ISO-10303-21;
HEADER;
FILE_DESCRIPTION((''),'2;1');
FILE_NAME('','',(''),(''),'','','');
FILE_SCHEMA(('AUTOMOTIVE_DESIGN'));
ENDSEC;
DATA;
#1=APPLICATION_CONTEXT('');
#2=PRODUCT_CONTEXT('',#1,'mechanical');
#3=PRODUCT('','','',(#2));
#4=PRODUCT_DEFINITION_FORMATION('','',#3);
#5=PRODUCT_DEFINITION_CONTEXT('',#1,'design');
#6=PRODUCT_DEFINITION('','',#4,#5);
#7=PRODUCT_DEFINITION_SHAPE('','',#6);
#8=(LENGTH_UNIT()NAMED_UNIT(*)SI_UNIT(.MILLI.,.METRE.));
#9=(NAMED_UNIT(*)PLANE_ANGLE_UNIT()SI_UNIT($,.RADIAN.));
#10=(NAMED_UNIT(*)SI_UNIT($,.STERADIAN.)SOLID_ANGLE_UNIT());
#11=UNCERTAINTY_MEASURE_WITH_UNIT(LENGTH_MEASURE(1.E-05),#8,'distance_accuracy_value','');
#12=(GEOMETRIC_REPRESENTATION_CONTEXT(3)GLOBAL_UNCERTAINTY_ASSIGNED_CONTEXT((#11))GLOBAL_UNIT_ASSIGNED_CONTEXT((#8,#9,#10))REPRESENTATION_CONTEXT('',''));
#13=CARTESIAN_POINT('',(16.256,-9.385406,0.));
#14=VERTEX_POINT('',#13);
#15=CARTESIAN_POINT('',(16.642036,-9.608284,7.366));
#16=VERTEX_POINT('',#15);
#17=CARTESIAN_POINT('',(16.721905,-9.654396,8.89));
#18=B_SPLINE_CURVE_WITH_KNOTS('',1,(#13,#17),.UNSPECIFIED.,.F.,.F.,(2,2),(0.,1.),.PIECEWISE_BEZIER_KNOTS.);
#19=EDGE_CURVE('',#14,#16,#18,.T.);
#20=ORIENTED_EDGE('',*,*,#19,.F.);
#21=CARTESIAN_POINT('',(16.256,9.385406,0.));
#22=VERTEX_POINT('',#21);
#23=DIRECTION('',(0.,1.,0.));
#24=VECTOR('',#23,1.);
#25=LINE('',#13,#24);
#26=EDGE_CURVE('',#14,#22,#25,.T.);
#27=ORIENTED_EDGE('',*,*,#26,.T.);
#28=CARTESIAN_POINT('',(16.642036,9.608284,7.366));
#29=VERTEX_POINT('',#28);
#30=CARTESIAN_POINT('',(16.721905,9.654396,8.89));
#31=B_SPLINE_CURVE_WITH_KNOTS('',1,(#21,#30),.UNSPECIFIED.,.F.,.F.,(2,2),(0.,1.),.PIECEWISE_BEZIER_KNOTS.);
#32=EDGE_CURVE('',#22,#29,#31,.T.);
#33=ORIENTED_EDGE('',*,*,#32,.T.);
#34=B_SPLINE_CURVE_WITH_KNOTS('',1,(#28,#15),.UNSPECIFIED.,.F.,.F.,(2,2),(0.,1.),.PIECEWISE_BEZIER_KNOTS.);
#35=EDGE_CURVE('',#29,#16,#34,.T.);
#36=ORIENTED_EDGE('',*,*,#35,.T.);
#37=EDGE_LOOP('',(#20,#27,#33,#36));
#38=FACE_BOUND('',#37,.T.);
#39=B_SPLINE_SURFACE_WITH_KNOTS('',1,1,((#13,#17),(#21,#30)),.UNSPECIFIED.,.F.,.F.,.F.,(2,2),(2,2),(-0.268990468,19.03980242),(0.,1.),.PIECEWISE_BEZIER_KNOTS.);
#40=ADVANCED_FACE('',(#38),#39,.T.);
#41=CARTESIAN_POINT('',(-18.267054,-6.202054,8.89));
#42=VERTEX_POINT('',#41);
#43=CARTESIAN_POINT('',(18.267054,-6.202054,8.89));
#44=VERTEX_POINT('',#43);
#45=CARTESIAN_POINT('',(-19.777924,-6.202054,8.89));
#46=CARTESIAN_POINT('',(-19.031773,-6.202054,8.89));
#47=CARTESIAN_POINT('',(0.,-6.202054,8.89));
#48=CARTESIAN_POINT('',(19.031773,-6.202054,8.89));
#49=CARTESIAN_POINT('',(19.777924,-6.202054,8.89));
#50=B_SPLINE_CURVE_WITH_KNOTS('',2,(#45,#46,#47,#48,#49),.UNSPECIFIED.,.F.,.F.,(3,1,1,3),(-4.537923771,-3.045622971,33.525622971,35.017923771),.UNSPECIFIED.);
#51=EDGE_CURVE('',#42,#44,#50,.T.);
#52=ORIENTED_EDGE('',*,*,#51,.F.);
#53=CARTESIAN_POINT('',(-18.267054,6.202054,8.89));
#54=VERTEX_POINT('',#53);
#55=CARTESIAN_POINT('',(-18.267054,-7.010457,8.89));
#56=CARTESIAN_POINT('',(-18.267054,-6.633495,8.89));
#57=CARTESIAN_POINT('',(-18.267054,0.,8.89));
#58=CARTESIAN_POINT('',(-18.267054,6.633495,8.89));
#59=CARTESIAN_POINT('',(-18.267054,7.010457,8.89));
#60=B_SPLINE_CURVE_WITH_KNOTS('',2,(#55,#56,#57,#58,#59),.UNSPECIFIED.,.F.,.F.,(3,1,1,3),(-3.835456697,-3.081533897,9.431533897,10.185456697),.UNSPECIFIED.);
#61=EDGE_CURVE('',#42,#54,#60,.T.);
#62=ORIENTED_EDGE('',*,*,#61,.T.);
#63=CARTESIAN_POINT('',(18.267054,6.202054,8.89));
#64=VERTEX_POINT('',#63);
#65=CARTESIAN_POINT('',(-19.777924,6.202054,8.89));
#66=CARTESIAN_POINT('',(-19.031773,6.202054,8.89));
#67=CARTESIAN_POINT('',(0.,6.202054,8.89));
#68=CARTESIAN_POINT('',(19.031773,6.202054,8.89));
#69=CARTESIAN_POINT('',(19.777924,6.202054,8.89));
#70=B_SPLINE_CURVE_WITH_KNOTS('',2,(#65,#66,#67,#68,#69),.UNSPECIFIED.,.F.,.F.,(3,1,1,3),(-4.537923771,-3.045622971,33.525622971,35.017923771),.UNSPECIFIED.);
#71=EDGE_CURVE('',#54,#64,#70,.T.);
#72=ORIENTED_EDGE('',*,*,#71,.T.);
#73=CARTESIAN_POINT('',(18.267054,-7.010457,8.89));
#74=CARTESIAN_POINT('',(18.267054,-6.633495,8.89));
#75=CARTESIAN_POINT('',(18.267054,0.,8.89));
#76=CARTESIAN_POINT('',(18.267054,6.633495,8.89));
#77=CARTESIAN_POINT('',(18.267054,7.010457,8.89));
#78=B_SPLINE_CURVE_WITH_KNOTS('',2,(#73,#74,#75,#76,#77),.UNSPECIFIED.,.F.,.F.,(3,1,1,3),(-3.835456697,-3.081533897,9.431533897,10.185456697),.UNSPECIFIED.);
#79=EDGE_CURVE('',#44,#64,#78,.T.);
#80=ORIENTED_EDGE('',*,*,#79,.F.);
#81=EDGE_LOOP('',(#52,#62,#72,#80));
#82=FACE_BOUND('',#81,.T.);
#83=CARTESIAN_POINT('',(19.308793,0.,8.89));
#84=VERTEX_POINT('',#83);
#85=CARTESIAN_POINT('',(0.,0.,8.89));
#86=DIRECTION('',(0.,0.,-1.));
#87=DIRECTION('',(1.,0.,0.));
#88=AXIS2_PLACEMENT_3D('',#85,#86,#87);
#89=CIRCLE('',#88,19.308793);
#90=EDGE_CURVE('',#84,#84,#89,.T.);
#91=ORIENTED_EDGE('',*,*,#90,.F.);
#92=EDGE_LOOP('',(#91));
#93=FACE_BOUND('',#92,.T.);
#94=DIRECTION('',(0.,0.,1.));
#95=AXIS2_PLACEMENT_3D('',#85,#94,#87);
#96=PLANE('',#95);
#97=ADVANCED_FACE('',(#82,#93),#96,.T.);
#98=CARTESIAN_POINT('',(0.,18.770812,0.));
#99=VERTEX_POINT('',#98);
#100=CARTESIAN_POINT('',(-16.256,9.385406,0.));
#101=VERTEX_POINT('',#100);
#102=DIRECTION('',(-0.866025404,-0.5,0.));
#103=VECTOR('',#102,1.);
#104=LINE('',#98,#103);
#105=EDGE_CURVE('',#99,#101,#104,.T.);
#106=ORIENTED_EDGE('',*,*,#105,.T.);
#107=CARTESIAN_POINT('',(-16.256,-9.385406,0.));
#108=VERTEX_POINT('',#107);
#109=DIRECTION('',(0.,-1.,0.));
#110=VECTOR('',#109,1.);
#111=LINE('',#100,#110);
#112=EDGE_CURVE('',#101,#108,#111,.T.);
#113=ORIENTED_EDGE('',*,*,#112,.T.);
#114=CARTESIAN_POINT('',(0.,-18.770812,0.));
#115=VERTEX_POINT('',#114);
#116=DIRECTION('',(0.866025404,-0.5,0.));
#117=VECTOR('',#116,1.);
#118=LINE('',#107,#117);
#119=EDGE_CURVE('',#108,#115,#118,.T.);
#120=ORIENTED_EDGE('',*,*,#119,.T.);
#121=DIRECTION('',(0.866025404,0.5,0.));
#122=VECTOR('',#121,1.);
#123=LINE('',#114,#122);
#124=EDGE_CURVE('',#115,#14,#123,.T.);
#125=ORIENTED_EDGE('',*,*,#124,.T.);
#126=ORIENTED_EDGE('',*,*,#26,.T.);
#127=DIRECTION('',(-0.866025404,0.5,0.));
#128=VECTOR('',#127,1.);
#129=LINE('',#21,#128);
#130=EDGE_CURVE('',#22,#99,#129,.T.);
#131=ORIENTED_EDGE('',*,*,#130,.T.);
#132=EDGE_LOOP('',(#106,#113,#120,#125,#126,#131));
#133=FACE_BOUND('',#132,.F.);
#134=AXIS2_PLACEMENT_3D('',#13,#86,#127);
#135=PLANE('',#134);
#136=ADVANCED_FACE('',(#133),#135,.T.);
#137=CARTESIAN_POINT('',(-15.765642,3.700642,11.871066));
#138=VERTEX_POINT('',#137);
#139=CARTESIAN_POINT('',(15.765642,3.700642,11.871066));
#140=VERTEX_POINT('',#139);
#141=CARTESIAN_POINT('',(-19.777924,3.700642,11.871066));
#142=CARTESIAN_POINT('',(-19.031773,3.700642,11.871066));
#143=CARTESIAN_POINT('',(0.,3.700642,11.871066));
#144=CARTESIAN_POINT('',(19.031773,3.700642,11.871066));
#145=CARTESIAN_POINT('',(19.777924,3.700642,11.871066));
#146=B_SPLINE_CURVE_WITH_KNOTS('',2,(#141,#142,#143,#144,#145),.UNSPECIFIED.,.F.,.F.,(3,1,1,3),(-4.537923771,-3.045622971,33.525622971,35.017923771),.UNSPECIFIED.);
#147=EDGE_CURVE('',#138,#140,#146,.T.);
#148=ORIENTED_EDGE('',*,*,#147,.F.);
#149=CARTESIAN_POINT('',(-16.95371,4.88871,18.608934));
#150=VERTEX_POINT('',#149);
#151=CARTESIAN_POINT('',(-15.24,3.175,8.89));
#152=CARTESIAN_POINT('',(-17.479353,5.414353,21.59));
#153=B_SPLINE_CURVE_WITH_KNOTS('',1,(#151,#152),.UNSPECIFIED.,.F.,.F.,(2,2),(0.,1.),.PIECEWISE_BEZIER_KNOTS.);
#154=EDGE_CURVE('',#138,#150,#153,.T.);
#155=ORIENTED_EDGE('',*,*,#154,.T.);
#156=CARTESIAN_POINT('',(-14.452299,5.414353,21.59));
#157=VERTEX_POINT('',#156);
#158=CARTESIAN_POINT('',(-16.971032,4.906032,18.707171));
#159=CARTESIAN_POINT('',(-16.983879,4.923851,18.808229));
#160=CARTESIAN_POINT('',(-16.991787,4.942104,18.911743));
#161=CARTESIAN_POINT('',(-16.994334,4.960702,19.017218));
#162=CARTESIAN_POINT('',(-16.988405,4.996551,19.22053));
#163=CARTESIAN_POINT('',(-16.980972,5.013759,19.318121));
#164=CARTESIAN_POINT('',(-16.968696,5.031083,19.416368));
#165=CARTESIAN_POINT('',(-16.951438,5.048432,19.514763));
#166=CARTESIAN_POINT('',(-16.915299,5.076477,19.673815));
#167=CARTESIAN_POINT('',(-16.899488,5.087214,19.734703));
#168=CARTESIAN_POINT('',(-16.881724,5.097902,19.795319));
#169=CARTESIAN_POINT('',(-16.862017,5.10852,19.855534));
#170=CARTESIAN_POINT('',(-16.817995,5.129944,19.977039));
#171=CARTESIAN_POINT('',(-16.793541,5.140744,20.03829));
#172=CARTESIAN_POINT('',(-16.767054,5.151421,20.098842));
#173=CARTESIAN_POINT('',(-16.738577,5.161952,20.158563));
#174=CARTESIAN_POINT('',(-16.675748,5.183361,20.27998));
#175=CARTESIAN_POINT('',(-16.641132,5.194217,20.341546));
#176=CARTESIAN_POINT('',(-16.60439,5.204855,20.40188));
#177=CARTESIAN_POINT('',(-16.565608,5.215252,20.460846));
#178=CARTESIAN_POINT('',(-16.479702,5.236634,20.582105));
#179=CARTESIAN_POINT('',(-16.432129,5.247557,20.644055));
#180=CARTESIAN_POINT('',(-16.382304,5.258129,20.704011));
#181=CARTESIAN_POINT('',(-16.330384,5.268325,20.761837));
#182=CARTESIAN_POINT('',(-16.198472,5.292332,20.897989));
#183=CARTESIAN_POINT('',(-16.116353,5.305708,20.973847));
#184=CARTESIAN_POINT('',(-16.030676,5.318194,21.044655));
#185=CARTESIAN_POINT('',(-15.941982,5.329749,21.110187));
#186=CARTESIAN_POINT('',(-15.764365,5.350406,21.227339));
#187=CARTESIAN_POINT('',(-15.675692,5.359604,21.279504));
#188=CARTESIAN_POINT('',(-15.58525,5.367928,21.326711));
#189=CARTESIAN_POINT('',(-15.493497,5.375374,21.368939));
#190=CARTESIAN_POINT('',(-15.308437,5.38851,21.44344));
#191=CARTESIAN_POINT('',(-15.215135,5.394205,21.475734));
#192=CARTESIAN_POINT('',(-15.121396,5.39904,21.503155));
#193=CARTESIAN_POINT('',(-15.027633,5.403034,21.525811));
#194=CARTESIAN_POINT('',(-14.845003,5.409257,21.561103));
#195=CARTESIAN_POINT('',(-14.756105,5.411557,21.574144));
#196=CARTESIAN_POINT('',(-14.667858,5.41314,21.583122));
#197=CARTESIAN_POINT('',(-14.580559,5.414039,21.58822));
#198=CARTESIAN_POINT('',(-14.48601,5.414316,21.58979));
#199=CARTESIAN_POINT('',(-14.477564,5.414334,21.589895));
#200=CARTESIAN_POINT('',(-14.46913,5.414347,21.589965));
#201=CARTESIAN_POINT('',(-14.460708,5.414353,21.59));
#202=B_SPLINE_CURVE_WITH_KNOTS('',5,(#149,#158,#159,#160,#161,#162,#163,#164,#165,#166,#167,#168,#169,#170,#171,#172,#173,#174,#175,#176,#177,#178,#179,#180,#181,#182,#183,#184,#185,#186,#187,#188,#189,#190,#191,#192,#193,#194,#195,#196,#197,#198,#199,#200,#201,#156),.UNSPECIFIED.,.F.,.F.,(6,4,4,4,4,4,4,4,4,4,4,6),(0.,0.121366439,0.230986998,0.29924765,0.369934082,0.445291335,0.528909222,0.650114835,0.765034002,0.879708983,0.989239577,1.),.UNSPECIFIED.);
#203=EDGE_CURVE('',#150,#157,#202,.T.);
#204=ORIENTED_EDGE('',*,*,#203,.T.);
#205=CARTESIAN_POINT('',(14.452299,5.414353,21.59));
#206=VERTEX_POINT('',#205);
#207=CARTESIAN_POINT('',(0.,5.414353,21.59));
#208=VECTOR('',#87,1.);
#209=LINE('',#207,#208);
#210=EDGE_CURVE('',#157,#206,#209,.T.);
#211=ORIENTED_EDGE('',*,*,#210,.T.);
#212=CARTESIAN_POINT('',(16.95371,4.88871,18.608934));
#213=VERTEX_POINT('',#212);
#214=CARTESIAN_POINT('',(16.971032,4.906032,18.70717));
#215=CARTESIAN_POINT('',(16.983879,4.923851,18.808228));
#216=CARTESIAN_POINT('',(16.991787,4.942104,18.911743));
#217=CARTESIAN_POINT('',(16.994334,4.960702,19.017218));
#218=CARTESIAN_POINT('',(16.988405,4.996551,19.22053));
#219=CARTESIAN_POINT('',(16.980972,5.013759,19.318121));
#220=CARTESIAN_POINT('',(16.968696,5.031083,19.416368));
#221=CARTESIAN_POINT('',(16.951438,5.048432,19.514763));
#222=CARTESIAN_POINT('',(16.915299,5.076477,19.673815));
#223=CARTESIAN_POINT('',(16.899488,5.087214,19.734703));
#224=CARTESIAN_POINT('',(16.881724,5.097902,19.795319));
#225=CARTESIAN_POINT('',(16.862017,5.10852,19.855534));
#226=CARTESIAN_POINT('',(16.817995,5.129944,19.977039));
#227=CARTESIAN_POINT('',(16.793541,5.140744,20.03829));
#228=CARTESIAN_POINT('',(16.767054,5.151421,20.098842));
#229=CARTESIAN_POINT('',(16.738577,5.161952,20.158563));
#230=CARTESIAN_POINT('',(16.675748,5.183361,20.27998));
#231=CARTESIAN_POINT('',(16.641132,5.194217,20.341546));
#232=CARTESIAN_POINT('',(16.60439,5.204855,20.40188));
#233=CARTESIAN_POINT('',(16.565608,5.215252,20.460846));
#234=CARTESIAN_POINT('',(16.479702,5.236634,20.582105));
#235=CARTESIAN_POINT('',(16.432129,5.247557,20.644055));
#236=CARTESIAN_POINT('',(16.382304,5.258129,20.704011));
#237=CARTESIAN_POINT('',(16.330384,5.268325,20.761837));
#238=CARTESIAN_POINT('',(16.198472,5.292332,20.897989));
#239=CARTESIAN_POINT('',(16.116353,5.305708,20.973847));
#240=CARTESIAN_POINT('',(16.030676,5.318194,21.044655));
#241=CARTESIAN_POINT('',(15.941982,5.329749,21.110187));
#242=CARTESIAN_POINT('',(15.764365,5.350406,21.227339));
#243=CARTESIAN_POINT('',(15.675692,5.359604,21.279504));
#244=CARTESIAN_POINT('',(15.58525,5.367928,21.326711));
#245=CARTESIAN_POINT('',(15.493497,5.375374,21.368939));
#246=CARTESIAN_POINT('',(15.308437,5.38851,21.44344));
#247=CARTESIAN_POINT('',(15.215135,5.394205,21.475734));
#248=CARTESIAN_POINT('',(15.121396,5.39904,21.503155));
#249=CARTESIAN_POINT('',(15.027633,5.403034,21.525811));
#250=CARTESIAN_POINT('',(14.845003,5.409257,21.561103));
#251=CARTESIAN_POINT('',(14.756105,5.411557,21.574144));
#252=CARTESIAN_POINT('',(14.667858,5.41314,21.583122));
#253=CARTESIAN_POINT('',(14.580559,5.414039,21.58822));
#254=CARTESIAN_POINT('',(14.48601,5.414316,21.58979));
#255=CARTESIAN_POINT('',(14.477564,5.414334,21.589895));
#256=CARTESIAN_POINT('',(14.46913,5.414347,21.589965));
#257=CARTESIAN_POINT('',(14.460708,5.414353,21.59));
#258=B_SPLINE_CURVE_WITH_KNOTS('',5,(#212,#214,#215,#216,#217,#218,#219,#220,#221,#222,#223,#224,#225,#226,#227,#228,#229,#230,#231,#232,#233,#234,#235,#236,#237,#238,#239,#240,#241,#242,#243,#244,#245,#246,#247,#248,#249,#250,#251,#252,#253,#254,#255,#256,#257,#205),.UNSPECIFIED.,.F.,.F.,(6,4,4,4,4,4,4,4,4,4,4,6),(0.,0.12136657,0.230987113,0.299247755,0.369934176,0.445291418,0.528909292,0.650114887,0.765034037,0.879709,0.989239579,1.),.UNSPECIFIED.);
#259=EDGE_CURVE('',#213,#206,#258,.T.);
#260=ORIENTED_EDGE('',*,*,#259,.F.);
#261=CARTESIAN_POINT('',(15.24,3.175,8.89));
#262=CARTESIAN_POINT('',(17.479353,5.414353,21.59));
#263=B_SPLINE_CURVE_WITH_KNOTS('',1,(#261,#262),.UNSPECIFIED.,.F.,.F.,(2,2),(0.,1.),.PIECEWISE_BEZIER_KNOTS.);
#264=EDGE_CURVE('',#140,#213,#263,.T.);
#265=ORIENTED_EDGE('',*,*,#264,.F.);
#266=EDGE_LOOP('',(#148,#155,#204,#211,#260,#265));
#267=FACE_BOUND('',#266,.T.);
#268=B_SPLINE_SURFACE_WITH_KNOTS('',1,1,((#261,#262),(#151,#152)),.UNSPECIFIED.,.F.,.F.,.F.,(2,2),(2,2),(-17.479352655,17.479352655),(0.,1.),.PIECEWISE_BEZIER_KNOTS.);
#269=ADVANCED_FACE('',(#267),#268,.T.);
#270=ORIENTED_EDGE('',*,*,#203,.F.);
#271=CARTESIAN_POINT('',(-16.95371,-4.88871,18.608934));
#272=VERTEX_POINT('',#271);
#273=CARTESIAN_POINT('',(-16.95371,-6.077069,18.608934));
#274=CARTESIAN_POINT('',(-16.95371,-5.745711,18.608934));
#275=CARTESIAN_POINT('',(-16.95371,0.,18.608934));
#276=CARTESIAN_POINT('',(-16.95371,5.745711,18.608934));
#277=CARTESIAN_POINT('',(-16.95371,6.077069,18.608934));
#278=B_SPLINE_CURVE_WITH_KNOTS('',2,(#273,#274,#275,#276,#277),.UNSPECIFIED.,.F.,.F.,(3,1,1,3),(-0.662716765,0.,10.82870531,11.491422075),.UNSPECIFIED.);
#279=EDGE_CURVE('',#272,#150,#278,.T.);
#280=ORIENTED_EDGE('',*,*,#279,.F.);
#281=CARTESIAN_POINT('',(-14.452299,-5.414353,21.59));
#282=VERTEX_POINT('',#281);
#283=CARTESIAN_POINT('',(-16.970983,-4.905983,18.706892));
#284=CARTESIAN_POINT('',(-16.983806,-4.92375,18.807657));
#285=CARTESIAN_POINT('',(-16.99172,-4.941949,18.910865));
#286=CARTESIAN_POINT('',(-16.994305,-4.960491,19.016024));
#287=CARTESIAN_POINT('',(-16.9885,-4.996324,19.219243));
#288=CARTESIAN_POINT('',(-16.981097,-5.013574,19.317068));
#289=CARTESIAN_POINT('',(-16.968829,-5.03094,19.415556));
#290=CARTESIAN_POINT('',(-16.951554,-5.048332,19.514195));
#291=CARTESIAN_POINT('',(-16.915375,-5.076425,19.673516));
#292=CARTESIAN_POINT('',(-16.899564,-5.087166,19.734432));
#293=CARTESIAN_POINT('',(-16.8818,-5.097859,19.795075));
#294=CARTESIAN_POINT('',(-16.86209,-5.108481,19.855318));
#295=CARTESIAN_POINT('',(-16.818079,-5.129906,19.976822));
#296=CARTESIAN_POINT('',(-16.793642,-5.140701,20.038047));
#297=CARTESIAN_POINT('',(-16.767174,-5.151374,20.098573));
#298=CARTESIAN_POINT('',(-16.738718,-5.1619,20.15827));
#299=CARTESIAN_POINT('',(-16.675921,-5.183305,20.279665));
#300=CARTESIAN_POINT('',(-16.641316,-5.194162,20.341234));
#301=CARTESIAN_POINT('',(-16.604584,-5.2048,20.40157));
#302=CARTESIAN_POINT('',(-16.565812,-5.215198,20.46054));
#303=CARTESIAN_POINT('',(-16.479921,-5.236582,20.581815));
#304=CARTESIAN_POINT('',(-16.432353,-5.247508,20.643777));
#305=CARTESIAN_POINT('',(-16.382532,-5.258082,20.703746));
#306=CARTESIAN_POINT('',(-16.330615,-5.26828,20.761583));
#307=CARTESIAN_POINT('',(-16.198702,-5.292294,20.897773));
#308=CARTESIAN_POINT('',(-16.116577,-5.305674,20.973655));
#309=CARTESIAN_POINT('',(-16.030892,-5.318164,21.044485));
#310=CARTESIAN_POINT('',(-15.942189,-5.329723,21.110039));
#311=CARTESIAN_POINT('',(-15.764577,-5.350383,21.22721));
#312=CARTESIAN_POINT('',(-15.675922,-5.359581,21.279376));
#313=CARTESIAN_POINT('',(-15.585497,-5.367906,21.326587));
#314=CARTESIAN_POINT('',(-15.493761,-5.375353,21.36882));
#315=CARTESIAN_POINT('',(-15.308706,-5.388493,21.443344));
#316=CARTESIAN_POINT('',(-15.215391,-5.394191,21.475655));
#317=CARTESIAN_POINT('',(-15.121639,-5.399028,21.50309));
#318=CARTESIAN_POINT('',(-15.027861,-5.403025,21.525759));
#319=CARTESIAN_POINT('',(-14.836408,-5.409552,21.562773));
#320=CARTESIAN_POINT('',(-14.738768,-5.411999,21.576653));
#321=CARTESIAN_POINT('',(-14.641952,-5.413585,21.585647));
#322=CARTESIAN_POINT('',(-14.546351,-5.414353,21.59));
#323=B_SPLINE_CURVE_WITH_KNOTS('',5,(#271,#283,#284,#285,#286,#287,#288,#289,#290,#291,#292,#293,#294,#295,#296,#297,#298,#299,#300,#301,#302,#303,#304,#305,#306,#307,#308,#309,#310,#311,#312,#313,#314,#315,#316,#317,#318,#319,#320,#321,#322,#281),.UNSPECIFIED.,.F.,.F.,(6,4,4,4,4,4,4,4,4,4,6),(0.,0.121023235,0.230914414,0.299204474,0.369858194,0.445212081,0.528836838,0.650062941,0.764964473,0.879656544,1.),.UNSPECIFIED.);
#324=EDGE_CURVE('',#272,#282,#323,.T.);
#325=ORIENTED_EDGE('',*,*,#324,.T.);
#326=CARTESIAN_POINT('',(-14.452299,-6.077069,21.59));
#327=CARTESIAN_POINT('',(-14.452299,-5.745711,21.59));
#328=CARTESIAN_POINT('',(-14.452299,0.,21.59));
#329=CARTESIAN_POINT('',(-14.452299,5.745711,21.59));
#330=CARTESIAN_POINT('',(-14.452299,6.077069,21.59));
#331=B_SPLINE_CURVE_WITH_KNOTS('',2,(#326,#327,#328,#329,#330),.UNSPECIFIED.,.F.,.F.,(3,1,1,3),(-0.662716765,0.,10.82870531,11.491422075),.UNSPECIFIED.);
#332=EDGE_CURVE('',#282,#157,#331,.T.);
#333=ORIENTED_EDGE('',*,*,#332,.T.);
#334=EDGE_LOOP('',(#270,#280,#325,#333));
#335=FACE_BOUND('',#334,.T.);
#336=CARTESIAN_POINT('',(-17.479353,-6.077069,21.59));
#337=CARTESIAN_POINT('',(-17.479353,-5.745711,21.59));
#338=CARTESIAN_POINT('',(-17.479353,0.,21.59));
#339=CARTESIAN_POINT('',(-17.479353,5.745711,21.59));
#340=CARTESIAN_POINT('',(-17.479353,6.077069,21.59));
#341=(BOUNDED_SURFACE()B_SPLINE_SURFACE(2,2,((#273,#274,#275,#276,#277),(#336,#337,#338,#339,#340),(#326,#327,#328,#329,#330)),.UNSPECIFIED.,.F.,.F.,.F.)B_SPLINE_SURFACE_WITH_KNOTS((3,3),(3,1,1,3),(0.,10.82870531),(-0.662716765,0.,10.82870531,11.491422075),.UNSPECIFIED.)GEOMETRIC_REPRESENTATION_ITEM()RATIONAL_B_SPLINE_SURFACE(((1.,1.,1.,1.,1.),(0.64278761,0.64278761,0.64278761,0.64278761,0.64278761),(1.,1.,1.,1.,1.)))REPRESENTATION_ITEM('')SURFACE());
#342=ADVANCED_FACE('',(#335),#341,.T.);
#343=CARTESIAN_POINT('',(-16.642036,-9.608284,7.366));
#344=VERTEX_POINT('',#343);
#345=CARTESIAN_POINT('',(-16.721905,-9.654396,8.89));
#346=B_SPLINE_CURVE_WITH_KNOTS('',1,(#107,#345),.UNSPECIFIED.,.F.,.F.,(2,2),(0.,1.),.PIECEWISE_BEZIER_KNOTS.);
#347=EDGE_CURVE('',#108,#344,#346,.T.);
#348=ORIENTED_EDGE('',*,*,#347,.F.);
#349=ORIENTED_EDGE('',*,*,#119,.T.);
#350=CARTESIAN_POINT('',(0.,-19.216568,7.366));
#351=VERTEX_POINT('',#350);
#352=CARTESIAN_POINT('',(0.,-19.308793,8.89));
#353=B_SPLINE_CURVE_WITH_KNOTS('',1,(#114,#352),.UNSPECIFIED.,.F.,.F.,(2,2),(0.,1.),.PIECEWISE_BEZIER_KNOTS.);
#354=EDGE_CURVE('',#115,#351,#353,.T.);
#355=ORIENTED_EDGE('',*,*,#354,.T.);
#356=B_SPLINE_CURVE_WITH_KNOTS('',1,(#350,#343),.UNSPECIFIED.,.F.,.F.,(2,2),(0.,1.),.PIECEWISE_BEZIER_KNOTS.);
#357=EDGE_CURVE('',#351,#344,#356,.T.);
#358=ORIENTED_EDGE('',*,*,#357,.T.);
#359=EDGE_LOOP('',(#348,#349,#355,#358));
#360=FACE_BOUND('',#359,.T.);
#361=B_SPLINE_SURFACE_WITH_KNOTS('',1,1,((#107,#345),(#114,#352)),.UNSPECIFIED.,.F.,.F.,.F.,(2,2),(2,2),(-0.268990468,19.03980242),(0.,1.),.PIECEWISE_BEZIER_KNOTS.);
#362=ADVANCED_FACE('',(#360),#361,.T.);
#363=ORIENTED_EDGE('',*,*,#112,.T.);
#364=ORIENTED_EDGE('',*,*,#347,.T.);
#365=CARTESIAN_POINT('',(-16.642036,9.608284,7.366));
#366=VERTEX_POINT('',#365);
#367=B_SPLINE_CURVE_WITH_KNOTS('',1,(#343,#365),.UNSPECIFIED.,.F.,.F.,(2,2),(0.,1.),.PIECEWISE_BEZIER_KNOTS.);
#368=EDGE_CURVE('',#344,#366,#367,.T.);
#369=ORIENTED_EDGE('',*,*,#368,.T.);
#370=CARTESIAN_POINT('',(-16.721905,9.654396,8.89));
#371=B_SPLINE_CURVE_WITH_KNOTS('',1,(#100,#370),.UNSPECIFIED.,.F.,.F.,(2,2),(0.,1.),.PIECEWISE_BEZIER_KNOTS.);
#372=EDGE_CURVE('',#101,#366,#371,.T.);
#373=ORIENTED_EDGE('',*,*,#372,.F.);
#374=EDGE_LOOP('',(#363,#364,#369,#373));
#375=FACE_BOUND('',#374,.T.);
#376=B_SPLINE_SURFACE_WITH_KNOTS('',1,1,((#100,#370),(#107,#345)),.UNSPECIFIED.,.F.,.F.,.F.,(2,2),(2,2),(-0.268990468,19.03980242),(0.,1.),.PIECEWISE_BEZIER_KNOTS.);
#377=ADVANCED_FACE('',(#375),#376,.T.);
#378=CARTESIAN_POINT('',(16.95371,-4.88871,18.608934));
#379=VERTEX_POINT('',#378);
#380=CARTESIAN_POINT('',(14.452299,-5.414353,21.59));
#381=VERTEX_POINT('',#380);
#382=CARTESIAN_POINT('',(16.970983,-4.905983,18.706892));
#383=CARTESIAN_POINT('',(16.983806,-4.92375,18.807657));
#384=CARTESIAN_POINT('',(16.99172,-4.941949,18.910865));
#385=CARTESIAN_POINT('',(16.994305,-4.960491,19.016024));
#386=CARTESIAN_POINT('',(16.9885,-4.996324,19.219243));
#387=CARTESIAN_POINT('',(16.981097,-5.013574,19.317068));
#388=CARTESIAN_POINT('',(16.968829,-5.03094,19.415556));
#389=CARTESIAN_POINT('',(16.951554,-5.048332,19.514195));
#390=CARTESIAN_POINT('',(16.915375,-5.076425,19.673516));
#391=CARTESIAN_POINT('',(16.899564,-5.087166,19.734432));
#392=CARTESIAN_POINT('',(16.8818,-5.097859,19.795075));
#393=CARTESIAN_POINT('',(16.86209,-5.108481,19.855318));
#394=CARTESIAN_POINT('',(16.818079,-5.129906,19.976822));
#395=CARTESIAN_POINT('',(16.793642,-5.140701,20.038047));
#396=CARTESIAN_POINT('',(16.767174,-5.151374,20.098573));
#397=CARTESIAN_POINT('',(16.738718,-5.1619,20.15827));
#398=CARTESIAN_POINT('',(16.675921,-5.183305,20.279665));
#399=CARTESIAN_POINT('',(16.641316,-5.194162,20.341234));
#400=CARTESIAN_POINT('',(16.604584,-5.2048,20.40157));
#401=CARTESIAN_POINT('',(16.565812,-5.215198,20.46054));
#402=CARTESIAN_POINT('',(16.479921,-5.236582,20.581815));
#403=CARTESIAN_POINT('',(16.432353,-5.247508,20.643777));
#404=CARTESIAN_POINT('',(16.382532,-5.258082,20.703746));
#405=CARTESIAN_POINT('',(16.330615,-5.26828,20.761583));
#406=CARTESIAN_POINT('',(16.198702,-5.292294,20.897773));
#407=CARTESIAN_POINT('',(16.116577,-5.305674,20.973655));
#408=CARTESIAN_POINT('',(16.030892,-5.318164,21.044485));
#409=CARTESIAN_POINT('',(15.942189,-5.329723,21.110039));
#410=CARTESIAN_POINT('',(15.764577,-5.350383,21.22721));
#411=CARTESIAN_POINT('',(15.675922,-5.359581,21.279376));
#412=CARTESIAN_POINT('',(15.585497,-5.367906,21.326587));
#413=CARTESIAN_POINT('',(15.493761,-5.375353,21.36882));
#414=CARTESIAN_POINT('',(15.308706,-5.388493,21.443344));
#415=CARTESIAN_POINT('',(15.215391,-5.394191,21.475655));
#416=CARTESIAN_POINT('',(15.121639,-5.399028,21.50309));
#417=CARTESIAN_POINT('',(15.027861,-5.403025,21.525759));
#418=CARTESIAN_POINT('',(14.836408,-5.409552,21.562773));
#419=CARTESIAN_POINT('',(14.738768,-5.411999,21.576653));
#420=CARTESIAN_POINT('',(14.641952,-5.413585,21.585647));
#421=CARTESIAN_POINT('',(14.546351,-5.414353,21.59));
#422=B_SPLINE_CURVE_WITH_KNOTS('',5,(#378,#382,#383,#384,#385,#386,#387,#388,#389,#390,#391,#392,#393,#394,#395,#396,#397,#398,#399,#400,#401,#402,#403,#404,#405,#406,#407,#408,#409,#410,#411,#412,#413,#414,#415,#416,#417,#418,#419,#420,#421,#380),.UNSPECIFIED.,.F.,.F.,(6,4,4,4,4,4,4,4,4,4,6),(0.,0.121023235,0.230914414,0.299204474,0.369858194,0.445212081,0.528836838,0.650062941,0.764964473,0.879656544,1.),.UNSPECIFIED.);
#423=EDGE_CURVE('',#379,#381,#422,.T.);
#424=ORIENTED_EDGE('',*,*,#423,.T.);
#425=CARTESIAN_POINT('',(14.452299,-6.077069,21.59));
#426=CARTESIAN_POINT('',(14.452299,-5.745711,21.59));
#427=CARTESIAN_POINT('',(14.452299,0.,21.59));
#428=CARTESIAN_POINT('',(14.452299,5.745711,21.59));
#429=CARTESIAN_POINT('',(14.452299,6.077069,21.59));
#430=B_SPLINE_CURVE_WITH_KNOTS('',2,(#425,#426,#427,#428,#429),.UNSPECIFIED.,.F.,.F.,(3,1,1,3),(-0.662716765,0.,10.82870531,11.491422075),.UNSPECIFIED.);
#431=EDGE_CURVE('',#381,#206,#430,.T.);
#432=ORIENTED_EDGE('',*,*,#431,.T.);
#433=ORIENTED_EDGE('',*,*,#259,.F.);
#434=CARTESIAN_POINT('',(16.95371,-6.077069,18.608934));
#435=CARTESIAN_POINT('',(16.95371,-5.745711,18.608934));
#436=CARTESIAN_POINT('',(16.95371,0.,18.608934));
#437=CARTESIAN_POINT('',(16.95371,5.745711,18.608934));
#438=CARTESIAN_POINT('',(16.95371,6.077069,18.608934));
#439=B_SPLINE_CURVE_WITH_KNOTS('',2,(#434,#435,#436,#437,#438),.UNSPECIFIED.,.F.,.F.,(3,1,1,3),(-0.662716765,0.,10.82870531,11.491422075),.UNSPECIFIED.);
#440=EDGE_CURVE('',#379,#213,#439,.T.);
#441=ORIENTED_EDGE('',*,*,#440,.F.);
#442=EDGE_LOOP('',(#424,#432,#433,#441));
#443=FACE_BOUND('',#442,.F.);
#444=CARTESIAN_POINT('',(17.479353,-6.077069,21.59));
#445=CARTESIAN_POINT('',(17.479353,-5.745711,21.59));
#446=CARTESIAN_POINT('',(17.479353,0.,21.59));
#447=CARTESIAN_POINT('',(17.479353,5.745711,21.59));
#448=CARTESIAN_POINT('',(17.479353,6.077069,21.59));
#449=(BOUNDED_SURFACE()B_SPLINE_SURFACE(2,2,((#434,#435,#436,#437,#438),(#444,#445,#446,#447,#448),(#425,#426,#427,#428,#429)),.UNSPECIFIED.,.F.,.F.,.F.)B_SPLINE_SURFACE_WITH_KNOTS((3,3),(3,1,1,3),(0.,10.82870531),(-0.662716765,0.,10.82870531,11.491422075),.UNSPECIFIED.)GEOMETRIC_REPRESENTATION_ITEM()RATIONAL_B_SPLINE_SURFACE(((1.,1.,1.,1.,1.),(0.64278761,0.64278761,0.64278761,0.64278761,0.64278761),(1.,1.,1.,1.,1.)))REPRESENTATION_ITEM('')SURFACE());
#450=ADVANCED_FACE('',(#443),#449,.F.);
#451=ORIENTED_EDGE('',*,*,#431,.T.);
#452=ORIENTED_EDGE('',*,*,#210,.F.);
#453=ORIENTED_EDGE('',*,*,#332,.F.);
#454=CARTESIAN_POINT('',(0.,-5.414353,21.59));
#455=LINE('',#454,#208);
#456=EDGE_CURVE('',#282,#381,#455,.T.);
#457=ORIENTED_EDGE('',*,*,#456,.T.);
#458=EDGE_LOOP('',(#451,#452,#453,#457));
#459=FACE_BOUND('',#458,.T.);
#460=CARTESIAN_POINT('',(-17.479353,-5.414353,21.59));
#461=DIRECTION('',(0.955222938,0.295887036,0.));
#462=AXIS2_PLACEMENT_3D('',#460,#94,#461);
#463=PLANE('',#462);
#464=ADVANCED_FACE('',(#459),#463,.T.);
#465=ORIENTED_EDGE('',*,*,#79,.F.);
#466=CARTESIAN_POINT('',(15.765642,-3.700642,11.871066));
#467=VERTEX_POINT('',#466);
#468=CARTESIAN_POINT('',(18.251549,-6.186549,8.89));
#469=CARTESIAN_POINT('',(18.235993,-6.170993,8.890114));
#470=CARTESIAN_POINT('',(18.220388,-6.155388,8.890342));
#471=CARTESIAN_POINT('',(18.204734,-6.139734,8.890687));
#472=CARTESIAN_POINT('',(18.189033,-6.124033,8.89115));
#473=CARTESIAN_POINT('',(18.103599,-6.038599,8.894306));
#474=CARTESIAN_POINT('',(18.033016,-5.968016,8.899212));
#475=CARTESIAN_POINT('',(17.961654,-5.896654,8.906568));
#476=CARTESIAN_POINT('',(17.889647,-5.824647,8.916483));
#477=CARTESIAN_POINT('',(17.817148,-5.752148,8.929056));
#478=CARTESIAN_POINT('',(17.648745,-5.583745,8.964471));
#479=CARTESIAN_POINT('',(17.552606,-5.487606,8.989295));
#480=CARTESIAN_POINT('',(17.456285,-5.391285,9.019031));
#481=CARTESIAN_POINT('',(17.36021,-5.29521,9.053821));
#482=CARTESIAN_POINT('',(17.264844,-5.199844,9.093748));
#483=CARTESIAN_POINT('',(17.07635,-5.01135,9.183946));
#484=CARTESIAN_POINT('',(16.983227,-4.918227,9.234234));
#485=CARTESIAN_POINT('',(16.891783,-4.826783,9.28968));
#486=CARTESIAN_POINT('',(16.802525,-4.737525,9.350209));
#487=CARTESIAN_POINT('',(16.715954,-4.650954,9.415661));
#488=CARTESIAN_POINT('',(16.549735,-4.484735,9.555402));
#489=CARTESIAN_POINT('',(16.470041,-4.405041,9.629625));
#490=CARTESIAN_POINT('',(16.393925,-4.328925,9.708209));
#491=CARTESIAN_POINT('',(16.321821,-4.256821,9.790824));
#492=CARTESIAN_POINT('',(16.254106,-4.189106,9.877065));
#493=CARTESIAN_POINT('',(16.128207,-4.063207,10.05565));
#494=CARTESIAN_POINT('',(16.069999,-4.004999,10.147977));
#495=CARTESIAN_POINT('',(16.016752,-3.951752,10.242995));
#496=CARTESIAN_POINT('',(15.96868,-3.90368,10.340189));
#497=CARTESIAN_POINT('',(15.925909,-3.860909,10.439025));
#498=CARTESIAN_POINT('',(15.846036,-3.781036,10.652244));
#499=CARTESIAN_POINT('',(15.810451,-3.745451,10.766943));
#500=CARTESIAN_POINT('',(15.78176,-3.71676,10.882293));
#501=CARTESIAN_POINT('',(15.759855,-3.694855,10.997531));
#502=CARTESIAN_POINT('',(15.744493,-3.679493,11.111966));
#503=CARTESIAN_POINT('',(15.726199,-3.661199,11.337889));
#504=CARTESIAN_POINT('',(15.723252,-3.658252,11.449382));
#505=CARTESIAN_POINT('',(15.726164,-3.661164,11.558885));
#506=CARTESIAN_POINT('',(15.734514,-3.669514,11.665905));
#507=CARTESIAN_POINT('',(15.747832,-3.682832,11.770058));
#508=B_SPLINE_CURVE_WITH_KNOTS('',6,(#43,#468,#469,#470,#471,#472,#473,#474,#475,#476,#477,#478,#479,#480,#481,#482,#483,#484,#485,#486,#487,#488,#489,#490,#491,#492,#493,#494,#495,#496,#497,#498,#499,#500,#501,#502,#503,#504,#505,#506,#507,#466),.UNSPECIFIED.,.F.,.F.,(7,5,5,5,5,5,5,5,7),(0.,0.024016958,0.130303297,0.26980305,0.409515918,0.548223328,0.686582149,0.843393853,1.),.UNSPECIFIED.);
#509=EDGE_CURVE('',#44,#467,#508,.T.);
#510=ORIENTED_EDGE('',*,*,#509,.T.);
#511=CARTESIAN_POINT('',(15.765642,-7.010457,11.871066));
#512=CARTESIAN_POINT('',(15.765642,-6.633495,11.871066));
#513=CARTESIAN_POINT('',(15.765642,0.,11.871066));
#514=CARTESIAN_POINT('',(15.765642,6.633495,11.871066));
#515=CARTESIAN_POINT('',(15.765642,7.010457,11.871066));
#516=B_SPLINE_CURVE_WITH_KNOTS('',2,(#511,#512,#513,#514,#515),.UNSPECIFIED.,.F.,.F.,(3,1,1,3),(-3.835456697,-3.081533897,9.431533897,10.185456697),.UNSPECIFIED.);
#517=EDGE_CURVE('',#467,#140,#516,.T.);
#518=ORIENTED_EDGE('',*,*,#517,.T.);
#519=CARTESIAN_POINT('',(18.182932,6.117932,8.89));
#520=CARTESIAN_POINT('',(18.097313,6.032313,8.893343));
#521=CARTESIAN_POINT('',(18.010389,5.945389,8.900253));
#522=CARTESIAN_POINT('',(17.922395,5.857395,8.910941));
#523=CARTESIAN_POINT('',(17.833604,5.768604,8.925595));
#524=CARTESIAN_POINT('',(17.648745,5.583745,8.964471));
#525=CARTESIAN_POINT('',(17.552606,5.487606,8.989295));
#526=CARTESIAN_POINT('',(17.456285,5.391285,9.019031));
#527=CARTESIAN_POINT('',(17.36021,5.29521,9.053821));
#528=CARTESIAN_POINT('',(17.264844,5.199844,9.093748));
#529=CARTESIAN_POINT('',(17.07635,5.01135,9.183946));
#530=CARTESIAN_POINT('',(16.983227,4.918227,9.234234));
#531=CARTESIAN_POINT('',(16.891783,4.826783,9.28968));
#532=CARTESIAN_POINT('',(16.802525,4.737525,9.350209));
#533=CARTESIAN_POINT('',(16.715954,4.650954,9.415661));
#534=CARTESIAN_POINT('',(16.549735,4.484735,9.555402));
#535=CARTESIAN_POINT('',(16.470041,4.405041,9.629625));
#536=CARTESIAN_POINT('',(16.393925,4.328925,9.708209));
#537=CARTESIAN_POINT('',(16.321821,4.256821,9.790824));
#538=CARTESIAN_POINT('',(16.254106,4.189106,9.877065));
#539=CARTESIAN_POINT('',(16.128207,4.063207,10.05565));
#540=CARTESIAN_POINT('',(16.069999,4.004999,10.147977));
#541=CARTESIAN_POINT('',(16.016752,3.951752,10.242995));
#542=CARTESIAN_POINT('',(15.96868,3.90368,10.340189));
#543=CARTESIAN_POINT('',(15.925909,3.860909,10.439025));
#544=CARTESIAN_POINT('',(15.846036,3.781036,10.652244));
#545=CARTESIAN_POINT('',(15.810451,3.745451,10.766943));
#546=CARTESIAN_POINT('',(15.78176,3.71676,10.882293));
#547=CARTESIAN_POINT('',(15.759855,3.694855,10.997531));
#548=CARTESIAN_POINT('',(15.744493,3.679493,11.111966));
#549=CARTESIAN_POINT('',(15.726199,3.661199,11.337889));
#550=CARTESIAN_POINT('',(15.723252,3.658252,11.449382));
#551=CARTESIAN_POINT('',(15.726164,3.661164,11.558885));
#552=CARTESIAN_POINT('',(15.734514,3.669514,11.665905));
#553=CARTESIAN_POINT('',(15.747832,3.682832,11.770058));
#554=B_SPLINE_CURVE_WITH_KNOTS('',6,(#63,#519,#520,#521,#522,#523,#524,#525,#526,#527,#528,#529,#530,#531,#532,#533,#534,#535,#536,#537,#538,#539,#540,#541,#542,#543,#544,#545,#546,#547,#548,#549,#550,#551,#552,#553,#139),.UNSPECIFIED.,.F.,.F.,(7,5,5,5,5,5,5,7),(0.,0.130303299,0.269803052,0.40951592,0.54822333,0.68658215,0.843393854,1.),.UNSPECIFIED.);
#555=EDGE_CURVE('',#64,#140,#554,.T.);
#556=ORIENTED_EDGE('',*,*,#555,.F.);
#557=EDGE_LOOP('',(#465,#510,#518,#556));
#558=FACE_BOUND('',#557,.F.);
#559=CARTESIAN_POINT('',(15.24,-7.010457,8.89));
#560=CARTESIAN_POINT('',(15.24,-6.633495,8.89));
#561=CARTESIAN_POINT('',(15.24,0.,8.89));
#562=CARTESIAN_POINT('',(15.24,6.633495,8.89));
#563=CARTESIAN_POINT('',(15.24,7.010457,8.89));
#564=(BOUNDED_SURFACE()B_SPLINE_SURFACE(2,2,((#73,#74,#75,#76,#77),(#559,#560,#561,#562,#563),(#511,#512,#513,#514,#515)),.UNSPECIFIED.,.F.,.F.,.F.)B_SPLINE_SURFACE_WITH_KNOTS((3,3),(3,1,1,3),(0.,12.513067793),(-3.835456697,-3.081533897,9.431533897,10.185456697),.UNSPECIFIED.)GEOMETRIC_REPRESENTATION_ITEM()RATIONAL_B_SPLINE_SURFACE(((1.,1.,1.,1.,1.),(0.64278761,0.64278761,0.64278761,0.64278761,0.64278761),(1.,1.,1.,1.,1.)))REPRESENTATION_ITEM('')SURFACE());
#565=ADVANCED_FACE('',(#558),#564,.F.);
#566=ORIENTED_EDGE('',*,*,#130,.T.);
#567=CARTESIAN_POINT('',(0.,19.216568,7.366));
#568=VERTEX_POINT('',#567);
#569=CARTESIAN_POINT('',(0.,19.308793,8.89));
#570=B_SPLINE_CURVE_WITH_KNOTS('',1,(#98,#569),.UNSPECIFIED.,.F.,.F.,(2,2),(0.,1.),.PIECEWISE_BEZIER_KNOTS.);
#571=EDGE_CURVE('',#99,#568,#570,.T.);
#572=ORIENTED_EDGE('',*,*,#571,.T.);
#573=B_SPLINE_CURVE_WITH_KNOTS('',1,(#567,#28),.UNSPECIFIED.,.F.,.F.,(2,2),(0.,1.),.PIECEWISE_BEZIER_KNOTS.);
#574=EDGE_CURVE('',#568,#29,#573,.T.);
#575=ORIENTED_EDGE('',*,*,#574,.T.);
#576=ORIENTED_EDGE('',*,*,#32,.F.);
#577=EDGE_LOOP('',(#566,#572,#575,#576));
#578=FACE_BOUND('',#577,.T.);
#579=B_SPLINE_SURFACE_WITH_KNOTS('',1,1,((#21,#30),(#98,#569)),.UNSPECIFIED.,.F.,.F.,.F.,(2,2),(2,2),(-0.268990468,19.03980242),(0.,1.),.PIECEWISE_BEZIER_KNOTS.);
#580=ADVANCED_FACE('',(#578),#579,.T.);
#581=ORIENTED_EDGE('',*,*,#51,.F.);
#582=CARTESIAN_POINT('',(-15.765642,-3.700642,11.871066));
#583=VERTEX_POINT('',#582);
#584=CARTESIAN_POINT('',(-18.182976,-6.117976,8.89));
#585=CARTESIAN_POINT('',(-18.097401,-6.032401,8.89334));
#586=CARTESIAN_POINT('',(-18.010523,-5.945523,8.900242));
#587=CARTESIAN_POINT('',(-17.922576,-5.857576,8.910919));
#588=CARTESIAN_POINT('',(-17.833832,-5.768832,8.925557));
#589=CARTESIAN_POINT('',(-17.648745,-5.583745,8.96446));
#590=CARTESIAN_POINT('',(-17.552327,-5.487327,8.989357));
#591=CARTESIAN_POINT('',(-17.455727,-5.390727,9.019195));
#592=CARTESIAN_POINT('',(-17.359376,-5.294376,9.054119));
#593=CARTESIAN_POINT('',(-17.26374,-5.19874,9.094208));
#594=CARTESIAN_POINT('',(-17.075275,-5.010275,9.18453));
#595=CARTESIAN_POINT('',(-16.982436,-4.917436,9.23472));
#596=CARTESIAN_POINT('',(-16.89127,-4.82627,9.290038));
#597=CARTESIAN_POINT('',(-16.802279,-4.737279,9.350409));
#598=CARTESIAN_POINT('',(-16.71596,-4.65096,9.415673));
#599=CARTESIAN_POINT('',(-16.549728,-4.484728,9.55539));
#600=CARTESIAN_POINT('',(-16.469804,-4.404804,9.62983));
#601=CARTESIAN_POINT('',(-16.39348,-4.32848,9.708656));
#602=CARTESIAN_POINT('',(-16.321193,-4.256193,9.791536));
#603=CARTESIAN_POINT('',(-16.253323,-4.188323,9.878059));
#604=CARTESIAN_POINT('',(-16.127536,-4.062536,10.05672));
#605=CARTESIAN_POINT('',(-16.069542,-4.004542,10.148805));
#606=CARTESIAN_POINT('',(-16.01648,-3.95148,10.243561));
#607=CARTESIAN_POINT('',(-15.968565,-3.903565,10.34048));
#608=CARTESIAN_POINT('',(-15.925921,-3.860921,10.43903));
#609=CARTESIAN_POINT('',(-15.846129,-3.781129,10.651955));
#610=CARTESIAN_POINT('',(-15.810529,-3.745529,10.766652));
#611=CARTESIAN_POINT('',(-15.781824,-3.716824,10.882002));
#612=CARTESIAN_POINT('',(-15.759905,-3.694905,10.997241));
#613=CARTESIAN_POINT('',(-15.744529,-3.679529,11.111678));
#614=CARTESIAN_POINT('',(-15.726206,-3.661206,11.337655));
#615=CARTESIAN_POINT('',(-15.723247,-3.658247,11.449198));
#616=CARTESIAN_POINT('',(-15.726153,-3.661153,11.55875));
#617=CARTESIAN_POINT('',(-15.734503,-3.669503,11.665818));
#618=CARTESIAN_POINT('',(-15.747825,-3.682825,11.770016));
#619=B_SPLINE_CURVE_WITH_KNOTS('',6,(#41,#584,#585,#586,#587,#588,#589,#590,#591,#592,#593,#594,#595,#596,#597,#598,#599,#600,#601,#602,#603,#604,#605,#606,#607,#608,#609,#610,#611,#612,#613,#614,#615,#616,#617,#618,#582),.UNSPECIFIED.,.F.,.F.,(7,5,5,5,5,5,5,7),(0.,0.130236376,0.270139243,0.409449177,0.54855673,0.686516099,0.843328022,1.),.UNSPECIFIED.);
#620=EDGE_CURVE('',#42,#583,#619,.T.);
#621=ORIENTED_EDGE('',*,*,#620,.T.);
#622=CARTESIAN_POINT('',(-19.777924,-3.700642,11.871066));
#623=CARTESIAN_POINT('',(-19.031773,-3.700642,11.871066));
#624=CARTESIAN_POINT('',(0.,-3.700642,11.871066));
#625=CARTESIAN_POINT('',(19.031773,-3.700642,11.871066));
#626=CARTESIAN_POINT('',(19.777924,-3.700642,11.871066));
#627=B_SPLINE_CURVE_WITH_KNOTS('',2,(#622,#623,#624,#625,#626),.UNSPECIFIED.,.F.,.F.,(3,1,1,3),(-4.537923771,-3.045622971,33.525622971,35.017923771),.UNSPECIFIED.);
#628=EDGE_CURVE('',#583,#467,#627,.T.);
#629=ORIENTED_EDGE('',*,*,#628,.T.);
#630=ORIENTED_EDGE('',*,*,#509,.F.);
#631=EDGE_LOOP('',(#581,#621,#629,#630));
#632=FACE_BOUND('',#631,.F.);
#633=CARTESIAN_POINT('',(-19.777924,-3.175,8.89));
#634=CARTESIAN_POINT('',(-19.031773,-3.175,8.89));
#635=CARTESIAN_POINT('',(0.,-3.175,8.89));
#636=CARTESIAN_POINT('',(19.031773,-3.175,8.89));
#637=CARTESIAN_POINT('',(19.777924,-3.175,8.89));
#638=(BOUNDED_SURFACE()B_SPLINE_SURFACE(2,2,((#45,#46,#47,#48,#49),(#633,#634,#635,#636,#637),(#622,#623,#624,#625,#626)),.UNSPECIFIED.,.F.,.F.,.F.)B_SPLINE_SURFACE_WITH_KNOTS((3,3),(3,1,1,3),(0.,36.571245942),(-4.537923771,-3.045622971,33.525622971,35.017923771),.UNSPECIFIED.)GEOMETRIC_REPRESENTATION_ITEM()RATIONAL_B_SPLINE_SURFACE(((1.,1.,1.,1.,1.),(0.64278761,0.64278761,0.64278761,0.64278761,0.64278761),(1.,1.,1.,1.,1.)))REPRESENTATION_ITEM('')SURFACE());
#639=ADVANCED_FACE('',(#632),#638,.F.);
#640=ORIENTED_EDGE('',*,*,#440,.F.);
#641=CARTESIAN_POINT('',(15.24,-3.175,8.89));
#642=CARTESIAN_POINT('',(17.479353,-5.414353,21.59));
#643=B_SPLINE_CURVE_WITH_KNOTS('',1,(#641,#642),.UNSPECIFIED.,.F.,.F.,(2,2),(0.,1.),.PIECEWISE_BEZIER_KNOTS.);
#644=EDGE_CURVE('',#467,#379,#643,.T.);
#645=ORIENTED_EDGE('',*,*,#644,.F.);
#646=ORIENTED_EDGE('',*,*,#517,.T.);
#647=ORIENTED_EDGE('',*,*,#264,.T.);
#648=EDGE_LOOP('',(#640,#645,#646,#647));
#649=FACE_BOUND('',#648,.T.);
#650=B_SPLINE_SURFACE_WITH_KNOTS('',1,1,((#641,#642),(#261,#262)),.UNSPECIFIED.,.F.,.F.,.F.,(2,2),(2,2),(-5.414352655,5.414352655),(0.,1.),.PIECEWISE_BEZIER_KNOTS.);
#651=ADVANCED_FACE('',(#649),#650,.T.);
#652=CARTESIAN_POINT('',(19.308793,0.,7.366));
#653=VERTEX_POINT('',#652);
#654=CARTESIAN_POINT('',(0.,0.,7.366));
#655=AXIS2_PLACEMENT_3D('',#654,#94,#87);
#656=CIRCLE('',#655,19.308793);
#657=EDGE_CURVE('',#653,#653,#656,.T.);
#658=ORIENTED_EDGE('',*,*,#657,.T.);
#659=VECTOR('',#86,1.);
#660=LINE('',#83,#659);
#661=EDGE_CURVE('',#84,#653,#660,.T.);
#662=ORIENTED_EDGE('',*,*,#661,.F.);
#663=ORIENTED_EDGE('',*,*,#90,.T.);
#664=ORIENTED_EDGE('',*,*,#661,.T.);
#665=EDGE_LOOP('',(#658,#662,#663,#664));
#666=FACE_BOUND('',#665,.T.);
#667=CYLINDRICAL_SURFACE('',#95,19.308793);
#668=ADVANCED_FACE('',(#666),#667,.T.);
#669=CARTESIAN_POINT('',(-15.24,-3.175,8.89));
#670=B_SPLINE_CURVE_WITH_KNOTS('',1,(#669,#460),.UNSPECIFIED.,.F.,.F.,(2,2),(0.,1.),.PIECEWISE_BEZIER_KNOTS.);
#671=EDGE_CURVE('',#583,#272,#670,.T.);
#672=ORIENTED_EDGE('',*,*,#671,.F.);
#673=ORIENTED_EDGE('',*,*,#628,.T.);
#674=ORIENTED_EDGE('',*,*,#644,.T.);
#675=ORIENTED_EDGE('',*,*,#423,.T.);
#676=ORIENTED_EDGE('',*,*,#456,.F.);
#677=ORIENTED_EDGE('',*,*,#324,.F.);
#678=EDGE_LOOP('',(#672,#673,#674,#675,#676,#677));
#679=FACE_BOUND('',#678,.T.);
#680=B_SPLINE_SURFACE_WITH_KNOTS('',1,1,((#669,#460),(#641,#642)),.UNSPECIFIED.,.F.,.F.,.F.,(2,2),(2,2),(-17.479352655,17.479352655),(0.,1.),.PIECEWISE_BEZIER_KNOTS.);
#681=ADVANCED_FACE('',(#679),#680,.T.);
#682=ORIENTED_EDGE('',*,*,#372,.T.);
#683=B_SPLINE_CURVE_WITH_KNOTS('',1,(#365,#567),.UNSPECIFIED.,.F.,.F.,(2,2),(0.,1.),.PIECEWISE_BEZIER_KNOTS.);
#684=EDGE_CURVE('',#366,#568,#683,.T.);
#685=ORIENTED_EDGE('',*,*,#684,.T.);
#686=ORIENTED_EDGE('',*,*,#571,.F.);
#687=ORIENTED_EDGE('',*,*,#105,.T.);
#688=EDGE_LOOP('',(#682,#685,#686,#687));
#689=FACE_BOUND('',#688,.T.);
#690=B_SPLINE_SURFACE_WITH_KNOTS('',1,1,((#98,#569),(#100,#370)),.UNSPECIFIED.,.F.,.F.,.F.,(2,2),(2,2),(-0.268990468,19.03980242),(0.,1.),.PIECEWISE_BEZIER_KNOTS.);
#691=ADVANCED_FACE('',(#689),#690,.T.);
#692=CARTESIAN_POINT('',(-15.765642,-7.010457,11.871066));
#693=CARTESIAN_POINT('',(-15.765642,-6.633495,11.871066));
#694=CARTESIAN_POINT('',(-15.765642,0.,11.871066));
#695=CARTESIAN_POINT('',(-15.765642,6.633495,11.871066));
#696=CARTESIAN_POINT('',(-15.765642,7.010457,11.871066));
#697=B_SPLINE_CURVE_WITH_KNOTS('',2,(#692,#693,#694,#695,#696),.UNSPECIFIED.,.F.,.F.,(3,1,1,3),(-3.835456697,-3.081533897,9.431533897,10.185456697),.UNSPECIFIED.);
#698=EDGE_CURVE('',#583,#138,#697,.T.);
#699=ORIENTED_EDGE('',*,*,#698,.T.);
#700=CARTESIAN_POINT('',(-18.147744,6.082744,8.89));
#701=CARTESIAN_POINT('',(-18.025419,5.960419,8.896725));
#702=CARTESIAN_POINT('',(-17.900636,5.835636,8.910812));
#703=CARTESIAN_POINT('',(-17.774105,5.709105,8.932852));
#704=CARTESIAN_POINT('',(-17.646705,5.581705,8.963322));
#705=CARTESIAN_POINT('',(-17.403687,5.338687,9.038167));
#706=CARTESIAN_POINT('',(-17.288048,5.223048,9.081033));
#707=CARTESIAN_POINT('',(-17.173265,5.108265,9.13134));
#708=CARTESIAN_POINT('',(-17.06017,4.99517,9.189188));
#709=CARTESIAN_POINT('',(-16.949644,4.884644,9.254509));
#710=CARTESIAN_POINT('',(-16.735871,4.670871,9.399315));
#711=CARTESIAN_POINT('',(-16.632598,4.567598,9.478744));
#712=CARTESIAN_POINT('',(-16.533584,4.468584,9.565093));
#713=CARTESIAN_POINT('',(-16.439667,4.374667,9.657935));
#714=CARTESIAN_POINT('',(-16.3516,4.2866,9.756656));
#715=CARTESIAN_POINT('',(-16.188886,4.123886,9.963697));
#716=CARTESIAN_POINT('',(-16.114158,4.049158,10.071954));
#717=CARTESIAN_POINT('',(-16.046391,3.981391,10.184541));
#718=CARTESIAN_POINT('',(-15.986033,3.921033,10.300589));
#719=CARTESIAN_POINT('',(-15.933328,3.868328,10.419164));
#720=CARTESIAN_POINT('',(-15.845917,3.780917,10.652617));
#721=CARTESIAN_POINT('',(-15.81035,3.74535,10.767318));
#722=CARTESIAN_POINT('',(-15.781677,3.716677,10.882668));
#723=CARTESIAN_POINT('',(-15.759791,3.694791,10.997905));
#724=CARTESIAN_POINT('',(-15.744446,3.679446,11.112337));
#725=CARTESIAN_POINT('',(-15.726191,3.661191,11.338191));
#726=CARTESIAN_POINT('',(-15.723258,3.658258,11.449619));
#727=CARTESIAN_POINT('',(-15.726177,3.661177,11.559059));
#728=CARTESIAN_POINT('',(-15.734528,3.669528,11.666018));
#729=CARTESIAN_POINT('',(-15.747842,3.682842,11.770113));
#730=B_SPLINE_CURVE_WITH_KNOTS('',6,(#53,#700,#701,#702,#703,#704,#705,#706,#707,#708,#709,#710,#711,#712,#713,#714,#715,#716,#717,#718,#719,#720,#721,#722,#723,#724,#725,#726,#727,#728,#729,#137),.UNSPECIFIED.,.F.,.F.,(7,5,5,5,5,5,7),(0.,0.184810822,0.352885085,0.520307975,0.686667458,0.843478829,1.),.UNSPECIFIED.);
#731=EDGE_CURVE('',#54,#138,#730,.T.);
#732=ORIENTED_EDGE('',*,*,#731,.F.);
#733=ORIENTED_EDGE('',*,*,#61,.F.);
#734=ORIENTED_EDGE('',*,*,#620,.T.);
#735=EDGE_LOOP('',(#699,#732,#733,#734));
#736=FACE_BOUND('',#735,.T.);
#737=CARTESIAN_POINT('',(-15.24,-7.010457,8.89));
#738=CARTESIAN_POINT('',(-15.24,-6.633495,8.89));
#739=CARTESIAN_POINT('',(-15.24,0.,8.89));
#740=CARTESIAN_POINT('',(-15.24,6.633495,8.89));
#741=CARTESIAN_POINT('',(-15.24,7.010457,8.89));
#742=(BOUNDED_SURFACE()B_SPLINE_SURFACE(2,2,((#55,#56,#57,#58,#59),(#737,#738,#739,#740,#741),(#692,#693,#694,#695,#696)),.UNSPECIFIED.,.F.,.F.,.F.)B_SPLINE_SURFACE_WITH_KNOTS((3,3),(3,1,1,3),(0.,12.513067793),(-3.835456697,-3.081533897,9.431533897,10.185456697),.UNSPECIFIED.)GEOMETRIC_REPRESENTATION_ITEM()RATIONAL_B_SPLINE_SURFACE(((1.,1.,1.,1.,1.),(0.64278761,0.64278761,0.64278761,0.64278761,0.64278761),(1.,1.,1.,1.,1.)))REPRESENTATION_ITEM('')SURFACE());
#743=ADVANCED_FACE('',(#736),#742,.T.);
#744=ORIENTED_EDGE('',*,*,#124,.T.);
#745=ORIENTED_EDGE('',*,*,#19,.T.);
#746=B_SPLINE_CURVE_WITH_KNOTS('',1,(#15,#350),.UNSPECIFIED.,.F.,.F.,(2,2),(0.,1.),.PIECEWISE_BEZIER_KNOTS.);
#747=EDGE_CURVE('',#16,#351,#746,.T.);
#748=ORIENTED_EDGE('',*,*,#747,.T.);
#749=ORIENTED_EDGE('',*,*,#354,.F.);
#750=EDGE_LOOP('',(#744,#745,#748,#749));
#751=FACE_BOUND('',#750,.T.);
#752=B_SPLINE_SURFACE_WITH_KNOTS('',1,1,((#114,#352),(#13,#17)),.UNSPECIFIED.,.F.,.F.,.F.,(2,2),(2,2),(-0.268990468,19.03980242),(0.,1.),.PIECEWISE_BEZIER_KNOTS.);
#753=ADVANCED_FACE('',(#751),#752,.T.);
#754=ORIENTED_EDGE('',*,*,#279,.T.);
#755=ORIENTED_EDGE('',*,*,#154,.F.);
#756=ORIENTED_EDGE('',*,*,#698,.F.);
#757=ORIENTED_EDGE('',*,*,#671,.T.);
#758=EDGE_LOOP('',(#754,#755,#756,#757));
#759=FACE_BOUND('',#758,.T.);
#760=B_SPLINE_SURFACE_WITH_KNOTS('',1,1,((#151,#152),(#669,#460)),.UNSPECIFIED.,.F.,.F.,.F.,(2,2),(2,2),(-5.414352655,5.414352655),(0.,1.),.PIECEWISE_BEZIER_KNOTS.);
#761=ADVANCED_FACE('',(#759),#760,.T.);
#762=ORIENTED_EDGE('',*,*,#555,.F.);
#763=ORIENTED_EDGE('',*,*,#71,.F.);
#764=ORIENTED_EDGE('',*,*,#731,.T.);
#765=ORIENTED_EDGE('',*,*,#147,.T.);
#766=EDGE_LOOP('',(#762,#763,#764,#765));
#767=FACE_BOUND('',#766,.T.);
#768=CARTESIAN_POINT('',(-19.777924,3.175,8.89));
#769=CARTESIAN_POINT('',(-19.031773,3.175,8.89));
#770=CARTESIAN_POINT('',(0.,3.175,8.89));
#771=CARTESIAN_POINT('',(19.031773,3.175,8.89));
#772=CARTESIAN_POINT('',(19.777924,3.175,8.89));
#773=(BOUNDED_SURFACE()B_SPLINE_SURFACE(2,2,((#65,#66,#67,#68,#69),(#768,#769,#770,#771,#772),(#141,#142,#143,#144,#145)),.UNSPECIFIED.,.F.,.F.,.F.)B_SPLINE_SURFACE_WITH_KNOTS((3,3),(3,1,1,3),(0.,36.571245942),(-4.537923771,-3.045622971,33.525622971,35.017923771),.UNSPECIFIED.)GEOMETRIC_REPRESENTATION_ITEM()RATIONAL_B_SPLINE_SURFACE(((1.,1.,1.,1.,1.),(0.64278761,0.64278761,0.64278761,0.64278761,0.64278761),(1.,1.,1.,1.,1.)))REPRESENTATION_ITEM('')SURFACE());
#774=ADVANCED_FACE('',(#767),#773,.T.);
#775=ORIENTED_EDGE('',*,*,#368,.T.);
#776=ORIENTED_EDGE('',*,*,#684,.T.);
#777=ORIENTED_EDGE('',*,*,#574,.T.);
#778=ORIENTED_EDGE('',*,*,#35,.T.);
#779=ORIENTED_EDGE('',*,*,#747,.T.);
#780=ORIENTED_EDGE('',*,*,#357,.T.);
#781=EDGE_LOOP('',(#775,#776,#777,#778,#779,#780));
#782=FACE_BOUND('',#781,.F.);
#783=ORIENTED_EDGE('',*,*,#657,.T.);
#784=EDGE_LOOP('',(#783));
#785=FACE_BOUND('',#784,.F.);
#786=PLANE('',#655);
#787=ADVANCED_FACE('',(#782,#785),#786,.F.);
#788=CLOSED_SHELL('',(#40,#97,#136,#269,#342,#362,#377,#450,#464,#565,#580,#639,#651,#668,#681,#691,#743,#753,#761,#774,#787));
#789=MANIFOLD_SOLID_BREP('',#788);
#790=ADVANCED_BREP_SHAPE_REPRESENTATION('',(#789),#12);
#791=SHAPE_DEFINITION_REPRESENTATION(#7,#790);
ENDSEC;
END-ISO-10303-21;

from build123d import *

# Parameters (mm, degrees)
F1_DEPTH = 8.89
F1_TAPER = -3
F2_R     = 19.3087928885
F3_DEPTH = 1.524
F4_W     = 30.48
F4_H     = 6.35
F5_DEPTH = 12.7
F5_TAPER = -10
F6_R     = 2.54


with BuildPart() as f1:
    # F0 (on Top) → F1 (new body)
    with BuildSketch(Plane.XY):
        Polygon((16.256, -9.3854059759), (16.256, 9.3854059759), (0, 18.7708119519), (-16.256, 9.3854059759), (-16.256, -9.3854059759), (0, -18.7708119519), align=None)
    extrude(amount=F1_DEPTH, taper=F1_TAPER)

    # F2 (on face) → F3 (join)
    with BuildSketch(Plane.XY.offset(8.89)):
        Circle(F2_R)
    extrude(amount=-F3_DEPTH)

    # F4 (on face) → F5 (join)
    with BuildSketch(Plane.XY.offset(8.89)):
        Rectangle(F4_W, F4_H)
    extrude(amount=F5_DEPTH, taper=F5_TAPER)

    # F6
    f6_edges = [f1.edges().sort_by_distance(p)[0] for p in [
        (0, 3.175, 8.89),
        (-15.24, 0, 8.89),
        (0, -3.175, 8.89),
        (15.24, 0, 8.89),
        (-17.479353, 0, 21.59),
        (17.479353, 0, 21.59),
    ]]
    fillet(f6_edges, radius=F6_R)


solid = f1.part
